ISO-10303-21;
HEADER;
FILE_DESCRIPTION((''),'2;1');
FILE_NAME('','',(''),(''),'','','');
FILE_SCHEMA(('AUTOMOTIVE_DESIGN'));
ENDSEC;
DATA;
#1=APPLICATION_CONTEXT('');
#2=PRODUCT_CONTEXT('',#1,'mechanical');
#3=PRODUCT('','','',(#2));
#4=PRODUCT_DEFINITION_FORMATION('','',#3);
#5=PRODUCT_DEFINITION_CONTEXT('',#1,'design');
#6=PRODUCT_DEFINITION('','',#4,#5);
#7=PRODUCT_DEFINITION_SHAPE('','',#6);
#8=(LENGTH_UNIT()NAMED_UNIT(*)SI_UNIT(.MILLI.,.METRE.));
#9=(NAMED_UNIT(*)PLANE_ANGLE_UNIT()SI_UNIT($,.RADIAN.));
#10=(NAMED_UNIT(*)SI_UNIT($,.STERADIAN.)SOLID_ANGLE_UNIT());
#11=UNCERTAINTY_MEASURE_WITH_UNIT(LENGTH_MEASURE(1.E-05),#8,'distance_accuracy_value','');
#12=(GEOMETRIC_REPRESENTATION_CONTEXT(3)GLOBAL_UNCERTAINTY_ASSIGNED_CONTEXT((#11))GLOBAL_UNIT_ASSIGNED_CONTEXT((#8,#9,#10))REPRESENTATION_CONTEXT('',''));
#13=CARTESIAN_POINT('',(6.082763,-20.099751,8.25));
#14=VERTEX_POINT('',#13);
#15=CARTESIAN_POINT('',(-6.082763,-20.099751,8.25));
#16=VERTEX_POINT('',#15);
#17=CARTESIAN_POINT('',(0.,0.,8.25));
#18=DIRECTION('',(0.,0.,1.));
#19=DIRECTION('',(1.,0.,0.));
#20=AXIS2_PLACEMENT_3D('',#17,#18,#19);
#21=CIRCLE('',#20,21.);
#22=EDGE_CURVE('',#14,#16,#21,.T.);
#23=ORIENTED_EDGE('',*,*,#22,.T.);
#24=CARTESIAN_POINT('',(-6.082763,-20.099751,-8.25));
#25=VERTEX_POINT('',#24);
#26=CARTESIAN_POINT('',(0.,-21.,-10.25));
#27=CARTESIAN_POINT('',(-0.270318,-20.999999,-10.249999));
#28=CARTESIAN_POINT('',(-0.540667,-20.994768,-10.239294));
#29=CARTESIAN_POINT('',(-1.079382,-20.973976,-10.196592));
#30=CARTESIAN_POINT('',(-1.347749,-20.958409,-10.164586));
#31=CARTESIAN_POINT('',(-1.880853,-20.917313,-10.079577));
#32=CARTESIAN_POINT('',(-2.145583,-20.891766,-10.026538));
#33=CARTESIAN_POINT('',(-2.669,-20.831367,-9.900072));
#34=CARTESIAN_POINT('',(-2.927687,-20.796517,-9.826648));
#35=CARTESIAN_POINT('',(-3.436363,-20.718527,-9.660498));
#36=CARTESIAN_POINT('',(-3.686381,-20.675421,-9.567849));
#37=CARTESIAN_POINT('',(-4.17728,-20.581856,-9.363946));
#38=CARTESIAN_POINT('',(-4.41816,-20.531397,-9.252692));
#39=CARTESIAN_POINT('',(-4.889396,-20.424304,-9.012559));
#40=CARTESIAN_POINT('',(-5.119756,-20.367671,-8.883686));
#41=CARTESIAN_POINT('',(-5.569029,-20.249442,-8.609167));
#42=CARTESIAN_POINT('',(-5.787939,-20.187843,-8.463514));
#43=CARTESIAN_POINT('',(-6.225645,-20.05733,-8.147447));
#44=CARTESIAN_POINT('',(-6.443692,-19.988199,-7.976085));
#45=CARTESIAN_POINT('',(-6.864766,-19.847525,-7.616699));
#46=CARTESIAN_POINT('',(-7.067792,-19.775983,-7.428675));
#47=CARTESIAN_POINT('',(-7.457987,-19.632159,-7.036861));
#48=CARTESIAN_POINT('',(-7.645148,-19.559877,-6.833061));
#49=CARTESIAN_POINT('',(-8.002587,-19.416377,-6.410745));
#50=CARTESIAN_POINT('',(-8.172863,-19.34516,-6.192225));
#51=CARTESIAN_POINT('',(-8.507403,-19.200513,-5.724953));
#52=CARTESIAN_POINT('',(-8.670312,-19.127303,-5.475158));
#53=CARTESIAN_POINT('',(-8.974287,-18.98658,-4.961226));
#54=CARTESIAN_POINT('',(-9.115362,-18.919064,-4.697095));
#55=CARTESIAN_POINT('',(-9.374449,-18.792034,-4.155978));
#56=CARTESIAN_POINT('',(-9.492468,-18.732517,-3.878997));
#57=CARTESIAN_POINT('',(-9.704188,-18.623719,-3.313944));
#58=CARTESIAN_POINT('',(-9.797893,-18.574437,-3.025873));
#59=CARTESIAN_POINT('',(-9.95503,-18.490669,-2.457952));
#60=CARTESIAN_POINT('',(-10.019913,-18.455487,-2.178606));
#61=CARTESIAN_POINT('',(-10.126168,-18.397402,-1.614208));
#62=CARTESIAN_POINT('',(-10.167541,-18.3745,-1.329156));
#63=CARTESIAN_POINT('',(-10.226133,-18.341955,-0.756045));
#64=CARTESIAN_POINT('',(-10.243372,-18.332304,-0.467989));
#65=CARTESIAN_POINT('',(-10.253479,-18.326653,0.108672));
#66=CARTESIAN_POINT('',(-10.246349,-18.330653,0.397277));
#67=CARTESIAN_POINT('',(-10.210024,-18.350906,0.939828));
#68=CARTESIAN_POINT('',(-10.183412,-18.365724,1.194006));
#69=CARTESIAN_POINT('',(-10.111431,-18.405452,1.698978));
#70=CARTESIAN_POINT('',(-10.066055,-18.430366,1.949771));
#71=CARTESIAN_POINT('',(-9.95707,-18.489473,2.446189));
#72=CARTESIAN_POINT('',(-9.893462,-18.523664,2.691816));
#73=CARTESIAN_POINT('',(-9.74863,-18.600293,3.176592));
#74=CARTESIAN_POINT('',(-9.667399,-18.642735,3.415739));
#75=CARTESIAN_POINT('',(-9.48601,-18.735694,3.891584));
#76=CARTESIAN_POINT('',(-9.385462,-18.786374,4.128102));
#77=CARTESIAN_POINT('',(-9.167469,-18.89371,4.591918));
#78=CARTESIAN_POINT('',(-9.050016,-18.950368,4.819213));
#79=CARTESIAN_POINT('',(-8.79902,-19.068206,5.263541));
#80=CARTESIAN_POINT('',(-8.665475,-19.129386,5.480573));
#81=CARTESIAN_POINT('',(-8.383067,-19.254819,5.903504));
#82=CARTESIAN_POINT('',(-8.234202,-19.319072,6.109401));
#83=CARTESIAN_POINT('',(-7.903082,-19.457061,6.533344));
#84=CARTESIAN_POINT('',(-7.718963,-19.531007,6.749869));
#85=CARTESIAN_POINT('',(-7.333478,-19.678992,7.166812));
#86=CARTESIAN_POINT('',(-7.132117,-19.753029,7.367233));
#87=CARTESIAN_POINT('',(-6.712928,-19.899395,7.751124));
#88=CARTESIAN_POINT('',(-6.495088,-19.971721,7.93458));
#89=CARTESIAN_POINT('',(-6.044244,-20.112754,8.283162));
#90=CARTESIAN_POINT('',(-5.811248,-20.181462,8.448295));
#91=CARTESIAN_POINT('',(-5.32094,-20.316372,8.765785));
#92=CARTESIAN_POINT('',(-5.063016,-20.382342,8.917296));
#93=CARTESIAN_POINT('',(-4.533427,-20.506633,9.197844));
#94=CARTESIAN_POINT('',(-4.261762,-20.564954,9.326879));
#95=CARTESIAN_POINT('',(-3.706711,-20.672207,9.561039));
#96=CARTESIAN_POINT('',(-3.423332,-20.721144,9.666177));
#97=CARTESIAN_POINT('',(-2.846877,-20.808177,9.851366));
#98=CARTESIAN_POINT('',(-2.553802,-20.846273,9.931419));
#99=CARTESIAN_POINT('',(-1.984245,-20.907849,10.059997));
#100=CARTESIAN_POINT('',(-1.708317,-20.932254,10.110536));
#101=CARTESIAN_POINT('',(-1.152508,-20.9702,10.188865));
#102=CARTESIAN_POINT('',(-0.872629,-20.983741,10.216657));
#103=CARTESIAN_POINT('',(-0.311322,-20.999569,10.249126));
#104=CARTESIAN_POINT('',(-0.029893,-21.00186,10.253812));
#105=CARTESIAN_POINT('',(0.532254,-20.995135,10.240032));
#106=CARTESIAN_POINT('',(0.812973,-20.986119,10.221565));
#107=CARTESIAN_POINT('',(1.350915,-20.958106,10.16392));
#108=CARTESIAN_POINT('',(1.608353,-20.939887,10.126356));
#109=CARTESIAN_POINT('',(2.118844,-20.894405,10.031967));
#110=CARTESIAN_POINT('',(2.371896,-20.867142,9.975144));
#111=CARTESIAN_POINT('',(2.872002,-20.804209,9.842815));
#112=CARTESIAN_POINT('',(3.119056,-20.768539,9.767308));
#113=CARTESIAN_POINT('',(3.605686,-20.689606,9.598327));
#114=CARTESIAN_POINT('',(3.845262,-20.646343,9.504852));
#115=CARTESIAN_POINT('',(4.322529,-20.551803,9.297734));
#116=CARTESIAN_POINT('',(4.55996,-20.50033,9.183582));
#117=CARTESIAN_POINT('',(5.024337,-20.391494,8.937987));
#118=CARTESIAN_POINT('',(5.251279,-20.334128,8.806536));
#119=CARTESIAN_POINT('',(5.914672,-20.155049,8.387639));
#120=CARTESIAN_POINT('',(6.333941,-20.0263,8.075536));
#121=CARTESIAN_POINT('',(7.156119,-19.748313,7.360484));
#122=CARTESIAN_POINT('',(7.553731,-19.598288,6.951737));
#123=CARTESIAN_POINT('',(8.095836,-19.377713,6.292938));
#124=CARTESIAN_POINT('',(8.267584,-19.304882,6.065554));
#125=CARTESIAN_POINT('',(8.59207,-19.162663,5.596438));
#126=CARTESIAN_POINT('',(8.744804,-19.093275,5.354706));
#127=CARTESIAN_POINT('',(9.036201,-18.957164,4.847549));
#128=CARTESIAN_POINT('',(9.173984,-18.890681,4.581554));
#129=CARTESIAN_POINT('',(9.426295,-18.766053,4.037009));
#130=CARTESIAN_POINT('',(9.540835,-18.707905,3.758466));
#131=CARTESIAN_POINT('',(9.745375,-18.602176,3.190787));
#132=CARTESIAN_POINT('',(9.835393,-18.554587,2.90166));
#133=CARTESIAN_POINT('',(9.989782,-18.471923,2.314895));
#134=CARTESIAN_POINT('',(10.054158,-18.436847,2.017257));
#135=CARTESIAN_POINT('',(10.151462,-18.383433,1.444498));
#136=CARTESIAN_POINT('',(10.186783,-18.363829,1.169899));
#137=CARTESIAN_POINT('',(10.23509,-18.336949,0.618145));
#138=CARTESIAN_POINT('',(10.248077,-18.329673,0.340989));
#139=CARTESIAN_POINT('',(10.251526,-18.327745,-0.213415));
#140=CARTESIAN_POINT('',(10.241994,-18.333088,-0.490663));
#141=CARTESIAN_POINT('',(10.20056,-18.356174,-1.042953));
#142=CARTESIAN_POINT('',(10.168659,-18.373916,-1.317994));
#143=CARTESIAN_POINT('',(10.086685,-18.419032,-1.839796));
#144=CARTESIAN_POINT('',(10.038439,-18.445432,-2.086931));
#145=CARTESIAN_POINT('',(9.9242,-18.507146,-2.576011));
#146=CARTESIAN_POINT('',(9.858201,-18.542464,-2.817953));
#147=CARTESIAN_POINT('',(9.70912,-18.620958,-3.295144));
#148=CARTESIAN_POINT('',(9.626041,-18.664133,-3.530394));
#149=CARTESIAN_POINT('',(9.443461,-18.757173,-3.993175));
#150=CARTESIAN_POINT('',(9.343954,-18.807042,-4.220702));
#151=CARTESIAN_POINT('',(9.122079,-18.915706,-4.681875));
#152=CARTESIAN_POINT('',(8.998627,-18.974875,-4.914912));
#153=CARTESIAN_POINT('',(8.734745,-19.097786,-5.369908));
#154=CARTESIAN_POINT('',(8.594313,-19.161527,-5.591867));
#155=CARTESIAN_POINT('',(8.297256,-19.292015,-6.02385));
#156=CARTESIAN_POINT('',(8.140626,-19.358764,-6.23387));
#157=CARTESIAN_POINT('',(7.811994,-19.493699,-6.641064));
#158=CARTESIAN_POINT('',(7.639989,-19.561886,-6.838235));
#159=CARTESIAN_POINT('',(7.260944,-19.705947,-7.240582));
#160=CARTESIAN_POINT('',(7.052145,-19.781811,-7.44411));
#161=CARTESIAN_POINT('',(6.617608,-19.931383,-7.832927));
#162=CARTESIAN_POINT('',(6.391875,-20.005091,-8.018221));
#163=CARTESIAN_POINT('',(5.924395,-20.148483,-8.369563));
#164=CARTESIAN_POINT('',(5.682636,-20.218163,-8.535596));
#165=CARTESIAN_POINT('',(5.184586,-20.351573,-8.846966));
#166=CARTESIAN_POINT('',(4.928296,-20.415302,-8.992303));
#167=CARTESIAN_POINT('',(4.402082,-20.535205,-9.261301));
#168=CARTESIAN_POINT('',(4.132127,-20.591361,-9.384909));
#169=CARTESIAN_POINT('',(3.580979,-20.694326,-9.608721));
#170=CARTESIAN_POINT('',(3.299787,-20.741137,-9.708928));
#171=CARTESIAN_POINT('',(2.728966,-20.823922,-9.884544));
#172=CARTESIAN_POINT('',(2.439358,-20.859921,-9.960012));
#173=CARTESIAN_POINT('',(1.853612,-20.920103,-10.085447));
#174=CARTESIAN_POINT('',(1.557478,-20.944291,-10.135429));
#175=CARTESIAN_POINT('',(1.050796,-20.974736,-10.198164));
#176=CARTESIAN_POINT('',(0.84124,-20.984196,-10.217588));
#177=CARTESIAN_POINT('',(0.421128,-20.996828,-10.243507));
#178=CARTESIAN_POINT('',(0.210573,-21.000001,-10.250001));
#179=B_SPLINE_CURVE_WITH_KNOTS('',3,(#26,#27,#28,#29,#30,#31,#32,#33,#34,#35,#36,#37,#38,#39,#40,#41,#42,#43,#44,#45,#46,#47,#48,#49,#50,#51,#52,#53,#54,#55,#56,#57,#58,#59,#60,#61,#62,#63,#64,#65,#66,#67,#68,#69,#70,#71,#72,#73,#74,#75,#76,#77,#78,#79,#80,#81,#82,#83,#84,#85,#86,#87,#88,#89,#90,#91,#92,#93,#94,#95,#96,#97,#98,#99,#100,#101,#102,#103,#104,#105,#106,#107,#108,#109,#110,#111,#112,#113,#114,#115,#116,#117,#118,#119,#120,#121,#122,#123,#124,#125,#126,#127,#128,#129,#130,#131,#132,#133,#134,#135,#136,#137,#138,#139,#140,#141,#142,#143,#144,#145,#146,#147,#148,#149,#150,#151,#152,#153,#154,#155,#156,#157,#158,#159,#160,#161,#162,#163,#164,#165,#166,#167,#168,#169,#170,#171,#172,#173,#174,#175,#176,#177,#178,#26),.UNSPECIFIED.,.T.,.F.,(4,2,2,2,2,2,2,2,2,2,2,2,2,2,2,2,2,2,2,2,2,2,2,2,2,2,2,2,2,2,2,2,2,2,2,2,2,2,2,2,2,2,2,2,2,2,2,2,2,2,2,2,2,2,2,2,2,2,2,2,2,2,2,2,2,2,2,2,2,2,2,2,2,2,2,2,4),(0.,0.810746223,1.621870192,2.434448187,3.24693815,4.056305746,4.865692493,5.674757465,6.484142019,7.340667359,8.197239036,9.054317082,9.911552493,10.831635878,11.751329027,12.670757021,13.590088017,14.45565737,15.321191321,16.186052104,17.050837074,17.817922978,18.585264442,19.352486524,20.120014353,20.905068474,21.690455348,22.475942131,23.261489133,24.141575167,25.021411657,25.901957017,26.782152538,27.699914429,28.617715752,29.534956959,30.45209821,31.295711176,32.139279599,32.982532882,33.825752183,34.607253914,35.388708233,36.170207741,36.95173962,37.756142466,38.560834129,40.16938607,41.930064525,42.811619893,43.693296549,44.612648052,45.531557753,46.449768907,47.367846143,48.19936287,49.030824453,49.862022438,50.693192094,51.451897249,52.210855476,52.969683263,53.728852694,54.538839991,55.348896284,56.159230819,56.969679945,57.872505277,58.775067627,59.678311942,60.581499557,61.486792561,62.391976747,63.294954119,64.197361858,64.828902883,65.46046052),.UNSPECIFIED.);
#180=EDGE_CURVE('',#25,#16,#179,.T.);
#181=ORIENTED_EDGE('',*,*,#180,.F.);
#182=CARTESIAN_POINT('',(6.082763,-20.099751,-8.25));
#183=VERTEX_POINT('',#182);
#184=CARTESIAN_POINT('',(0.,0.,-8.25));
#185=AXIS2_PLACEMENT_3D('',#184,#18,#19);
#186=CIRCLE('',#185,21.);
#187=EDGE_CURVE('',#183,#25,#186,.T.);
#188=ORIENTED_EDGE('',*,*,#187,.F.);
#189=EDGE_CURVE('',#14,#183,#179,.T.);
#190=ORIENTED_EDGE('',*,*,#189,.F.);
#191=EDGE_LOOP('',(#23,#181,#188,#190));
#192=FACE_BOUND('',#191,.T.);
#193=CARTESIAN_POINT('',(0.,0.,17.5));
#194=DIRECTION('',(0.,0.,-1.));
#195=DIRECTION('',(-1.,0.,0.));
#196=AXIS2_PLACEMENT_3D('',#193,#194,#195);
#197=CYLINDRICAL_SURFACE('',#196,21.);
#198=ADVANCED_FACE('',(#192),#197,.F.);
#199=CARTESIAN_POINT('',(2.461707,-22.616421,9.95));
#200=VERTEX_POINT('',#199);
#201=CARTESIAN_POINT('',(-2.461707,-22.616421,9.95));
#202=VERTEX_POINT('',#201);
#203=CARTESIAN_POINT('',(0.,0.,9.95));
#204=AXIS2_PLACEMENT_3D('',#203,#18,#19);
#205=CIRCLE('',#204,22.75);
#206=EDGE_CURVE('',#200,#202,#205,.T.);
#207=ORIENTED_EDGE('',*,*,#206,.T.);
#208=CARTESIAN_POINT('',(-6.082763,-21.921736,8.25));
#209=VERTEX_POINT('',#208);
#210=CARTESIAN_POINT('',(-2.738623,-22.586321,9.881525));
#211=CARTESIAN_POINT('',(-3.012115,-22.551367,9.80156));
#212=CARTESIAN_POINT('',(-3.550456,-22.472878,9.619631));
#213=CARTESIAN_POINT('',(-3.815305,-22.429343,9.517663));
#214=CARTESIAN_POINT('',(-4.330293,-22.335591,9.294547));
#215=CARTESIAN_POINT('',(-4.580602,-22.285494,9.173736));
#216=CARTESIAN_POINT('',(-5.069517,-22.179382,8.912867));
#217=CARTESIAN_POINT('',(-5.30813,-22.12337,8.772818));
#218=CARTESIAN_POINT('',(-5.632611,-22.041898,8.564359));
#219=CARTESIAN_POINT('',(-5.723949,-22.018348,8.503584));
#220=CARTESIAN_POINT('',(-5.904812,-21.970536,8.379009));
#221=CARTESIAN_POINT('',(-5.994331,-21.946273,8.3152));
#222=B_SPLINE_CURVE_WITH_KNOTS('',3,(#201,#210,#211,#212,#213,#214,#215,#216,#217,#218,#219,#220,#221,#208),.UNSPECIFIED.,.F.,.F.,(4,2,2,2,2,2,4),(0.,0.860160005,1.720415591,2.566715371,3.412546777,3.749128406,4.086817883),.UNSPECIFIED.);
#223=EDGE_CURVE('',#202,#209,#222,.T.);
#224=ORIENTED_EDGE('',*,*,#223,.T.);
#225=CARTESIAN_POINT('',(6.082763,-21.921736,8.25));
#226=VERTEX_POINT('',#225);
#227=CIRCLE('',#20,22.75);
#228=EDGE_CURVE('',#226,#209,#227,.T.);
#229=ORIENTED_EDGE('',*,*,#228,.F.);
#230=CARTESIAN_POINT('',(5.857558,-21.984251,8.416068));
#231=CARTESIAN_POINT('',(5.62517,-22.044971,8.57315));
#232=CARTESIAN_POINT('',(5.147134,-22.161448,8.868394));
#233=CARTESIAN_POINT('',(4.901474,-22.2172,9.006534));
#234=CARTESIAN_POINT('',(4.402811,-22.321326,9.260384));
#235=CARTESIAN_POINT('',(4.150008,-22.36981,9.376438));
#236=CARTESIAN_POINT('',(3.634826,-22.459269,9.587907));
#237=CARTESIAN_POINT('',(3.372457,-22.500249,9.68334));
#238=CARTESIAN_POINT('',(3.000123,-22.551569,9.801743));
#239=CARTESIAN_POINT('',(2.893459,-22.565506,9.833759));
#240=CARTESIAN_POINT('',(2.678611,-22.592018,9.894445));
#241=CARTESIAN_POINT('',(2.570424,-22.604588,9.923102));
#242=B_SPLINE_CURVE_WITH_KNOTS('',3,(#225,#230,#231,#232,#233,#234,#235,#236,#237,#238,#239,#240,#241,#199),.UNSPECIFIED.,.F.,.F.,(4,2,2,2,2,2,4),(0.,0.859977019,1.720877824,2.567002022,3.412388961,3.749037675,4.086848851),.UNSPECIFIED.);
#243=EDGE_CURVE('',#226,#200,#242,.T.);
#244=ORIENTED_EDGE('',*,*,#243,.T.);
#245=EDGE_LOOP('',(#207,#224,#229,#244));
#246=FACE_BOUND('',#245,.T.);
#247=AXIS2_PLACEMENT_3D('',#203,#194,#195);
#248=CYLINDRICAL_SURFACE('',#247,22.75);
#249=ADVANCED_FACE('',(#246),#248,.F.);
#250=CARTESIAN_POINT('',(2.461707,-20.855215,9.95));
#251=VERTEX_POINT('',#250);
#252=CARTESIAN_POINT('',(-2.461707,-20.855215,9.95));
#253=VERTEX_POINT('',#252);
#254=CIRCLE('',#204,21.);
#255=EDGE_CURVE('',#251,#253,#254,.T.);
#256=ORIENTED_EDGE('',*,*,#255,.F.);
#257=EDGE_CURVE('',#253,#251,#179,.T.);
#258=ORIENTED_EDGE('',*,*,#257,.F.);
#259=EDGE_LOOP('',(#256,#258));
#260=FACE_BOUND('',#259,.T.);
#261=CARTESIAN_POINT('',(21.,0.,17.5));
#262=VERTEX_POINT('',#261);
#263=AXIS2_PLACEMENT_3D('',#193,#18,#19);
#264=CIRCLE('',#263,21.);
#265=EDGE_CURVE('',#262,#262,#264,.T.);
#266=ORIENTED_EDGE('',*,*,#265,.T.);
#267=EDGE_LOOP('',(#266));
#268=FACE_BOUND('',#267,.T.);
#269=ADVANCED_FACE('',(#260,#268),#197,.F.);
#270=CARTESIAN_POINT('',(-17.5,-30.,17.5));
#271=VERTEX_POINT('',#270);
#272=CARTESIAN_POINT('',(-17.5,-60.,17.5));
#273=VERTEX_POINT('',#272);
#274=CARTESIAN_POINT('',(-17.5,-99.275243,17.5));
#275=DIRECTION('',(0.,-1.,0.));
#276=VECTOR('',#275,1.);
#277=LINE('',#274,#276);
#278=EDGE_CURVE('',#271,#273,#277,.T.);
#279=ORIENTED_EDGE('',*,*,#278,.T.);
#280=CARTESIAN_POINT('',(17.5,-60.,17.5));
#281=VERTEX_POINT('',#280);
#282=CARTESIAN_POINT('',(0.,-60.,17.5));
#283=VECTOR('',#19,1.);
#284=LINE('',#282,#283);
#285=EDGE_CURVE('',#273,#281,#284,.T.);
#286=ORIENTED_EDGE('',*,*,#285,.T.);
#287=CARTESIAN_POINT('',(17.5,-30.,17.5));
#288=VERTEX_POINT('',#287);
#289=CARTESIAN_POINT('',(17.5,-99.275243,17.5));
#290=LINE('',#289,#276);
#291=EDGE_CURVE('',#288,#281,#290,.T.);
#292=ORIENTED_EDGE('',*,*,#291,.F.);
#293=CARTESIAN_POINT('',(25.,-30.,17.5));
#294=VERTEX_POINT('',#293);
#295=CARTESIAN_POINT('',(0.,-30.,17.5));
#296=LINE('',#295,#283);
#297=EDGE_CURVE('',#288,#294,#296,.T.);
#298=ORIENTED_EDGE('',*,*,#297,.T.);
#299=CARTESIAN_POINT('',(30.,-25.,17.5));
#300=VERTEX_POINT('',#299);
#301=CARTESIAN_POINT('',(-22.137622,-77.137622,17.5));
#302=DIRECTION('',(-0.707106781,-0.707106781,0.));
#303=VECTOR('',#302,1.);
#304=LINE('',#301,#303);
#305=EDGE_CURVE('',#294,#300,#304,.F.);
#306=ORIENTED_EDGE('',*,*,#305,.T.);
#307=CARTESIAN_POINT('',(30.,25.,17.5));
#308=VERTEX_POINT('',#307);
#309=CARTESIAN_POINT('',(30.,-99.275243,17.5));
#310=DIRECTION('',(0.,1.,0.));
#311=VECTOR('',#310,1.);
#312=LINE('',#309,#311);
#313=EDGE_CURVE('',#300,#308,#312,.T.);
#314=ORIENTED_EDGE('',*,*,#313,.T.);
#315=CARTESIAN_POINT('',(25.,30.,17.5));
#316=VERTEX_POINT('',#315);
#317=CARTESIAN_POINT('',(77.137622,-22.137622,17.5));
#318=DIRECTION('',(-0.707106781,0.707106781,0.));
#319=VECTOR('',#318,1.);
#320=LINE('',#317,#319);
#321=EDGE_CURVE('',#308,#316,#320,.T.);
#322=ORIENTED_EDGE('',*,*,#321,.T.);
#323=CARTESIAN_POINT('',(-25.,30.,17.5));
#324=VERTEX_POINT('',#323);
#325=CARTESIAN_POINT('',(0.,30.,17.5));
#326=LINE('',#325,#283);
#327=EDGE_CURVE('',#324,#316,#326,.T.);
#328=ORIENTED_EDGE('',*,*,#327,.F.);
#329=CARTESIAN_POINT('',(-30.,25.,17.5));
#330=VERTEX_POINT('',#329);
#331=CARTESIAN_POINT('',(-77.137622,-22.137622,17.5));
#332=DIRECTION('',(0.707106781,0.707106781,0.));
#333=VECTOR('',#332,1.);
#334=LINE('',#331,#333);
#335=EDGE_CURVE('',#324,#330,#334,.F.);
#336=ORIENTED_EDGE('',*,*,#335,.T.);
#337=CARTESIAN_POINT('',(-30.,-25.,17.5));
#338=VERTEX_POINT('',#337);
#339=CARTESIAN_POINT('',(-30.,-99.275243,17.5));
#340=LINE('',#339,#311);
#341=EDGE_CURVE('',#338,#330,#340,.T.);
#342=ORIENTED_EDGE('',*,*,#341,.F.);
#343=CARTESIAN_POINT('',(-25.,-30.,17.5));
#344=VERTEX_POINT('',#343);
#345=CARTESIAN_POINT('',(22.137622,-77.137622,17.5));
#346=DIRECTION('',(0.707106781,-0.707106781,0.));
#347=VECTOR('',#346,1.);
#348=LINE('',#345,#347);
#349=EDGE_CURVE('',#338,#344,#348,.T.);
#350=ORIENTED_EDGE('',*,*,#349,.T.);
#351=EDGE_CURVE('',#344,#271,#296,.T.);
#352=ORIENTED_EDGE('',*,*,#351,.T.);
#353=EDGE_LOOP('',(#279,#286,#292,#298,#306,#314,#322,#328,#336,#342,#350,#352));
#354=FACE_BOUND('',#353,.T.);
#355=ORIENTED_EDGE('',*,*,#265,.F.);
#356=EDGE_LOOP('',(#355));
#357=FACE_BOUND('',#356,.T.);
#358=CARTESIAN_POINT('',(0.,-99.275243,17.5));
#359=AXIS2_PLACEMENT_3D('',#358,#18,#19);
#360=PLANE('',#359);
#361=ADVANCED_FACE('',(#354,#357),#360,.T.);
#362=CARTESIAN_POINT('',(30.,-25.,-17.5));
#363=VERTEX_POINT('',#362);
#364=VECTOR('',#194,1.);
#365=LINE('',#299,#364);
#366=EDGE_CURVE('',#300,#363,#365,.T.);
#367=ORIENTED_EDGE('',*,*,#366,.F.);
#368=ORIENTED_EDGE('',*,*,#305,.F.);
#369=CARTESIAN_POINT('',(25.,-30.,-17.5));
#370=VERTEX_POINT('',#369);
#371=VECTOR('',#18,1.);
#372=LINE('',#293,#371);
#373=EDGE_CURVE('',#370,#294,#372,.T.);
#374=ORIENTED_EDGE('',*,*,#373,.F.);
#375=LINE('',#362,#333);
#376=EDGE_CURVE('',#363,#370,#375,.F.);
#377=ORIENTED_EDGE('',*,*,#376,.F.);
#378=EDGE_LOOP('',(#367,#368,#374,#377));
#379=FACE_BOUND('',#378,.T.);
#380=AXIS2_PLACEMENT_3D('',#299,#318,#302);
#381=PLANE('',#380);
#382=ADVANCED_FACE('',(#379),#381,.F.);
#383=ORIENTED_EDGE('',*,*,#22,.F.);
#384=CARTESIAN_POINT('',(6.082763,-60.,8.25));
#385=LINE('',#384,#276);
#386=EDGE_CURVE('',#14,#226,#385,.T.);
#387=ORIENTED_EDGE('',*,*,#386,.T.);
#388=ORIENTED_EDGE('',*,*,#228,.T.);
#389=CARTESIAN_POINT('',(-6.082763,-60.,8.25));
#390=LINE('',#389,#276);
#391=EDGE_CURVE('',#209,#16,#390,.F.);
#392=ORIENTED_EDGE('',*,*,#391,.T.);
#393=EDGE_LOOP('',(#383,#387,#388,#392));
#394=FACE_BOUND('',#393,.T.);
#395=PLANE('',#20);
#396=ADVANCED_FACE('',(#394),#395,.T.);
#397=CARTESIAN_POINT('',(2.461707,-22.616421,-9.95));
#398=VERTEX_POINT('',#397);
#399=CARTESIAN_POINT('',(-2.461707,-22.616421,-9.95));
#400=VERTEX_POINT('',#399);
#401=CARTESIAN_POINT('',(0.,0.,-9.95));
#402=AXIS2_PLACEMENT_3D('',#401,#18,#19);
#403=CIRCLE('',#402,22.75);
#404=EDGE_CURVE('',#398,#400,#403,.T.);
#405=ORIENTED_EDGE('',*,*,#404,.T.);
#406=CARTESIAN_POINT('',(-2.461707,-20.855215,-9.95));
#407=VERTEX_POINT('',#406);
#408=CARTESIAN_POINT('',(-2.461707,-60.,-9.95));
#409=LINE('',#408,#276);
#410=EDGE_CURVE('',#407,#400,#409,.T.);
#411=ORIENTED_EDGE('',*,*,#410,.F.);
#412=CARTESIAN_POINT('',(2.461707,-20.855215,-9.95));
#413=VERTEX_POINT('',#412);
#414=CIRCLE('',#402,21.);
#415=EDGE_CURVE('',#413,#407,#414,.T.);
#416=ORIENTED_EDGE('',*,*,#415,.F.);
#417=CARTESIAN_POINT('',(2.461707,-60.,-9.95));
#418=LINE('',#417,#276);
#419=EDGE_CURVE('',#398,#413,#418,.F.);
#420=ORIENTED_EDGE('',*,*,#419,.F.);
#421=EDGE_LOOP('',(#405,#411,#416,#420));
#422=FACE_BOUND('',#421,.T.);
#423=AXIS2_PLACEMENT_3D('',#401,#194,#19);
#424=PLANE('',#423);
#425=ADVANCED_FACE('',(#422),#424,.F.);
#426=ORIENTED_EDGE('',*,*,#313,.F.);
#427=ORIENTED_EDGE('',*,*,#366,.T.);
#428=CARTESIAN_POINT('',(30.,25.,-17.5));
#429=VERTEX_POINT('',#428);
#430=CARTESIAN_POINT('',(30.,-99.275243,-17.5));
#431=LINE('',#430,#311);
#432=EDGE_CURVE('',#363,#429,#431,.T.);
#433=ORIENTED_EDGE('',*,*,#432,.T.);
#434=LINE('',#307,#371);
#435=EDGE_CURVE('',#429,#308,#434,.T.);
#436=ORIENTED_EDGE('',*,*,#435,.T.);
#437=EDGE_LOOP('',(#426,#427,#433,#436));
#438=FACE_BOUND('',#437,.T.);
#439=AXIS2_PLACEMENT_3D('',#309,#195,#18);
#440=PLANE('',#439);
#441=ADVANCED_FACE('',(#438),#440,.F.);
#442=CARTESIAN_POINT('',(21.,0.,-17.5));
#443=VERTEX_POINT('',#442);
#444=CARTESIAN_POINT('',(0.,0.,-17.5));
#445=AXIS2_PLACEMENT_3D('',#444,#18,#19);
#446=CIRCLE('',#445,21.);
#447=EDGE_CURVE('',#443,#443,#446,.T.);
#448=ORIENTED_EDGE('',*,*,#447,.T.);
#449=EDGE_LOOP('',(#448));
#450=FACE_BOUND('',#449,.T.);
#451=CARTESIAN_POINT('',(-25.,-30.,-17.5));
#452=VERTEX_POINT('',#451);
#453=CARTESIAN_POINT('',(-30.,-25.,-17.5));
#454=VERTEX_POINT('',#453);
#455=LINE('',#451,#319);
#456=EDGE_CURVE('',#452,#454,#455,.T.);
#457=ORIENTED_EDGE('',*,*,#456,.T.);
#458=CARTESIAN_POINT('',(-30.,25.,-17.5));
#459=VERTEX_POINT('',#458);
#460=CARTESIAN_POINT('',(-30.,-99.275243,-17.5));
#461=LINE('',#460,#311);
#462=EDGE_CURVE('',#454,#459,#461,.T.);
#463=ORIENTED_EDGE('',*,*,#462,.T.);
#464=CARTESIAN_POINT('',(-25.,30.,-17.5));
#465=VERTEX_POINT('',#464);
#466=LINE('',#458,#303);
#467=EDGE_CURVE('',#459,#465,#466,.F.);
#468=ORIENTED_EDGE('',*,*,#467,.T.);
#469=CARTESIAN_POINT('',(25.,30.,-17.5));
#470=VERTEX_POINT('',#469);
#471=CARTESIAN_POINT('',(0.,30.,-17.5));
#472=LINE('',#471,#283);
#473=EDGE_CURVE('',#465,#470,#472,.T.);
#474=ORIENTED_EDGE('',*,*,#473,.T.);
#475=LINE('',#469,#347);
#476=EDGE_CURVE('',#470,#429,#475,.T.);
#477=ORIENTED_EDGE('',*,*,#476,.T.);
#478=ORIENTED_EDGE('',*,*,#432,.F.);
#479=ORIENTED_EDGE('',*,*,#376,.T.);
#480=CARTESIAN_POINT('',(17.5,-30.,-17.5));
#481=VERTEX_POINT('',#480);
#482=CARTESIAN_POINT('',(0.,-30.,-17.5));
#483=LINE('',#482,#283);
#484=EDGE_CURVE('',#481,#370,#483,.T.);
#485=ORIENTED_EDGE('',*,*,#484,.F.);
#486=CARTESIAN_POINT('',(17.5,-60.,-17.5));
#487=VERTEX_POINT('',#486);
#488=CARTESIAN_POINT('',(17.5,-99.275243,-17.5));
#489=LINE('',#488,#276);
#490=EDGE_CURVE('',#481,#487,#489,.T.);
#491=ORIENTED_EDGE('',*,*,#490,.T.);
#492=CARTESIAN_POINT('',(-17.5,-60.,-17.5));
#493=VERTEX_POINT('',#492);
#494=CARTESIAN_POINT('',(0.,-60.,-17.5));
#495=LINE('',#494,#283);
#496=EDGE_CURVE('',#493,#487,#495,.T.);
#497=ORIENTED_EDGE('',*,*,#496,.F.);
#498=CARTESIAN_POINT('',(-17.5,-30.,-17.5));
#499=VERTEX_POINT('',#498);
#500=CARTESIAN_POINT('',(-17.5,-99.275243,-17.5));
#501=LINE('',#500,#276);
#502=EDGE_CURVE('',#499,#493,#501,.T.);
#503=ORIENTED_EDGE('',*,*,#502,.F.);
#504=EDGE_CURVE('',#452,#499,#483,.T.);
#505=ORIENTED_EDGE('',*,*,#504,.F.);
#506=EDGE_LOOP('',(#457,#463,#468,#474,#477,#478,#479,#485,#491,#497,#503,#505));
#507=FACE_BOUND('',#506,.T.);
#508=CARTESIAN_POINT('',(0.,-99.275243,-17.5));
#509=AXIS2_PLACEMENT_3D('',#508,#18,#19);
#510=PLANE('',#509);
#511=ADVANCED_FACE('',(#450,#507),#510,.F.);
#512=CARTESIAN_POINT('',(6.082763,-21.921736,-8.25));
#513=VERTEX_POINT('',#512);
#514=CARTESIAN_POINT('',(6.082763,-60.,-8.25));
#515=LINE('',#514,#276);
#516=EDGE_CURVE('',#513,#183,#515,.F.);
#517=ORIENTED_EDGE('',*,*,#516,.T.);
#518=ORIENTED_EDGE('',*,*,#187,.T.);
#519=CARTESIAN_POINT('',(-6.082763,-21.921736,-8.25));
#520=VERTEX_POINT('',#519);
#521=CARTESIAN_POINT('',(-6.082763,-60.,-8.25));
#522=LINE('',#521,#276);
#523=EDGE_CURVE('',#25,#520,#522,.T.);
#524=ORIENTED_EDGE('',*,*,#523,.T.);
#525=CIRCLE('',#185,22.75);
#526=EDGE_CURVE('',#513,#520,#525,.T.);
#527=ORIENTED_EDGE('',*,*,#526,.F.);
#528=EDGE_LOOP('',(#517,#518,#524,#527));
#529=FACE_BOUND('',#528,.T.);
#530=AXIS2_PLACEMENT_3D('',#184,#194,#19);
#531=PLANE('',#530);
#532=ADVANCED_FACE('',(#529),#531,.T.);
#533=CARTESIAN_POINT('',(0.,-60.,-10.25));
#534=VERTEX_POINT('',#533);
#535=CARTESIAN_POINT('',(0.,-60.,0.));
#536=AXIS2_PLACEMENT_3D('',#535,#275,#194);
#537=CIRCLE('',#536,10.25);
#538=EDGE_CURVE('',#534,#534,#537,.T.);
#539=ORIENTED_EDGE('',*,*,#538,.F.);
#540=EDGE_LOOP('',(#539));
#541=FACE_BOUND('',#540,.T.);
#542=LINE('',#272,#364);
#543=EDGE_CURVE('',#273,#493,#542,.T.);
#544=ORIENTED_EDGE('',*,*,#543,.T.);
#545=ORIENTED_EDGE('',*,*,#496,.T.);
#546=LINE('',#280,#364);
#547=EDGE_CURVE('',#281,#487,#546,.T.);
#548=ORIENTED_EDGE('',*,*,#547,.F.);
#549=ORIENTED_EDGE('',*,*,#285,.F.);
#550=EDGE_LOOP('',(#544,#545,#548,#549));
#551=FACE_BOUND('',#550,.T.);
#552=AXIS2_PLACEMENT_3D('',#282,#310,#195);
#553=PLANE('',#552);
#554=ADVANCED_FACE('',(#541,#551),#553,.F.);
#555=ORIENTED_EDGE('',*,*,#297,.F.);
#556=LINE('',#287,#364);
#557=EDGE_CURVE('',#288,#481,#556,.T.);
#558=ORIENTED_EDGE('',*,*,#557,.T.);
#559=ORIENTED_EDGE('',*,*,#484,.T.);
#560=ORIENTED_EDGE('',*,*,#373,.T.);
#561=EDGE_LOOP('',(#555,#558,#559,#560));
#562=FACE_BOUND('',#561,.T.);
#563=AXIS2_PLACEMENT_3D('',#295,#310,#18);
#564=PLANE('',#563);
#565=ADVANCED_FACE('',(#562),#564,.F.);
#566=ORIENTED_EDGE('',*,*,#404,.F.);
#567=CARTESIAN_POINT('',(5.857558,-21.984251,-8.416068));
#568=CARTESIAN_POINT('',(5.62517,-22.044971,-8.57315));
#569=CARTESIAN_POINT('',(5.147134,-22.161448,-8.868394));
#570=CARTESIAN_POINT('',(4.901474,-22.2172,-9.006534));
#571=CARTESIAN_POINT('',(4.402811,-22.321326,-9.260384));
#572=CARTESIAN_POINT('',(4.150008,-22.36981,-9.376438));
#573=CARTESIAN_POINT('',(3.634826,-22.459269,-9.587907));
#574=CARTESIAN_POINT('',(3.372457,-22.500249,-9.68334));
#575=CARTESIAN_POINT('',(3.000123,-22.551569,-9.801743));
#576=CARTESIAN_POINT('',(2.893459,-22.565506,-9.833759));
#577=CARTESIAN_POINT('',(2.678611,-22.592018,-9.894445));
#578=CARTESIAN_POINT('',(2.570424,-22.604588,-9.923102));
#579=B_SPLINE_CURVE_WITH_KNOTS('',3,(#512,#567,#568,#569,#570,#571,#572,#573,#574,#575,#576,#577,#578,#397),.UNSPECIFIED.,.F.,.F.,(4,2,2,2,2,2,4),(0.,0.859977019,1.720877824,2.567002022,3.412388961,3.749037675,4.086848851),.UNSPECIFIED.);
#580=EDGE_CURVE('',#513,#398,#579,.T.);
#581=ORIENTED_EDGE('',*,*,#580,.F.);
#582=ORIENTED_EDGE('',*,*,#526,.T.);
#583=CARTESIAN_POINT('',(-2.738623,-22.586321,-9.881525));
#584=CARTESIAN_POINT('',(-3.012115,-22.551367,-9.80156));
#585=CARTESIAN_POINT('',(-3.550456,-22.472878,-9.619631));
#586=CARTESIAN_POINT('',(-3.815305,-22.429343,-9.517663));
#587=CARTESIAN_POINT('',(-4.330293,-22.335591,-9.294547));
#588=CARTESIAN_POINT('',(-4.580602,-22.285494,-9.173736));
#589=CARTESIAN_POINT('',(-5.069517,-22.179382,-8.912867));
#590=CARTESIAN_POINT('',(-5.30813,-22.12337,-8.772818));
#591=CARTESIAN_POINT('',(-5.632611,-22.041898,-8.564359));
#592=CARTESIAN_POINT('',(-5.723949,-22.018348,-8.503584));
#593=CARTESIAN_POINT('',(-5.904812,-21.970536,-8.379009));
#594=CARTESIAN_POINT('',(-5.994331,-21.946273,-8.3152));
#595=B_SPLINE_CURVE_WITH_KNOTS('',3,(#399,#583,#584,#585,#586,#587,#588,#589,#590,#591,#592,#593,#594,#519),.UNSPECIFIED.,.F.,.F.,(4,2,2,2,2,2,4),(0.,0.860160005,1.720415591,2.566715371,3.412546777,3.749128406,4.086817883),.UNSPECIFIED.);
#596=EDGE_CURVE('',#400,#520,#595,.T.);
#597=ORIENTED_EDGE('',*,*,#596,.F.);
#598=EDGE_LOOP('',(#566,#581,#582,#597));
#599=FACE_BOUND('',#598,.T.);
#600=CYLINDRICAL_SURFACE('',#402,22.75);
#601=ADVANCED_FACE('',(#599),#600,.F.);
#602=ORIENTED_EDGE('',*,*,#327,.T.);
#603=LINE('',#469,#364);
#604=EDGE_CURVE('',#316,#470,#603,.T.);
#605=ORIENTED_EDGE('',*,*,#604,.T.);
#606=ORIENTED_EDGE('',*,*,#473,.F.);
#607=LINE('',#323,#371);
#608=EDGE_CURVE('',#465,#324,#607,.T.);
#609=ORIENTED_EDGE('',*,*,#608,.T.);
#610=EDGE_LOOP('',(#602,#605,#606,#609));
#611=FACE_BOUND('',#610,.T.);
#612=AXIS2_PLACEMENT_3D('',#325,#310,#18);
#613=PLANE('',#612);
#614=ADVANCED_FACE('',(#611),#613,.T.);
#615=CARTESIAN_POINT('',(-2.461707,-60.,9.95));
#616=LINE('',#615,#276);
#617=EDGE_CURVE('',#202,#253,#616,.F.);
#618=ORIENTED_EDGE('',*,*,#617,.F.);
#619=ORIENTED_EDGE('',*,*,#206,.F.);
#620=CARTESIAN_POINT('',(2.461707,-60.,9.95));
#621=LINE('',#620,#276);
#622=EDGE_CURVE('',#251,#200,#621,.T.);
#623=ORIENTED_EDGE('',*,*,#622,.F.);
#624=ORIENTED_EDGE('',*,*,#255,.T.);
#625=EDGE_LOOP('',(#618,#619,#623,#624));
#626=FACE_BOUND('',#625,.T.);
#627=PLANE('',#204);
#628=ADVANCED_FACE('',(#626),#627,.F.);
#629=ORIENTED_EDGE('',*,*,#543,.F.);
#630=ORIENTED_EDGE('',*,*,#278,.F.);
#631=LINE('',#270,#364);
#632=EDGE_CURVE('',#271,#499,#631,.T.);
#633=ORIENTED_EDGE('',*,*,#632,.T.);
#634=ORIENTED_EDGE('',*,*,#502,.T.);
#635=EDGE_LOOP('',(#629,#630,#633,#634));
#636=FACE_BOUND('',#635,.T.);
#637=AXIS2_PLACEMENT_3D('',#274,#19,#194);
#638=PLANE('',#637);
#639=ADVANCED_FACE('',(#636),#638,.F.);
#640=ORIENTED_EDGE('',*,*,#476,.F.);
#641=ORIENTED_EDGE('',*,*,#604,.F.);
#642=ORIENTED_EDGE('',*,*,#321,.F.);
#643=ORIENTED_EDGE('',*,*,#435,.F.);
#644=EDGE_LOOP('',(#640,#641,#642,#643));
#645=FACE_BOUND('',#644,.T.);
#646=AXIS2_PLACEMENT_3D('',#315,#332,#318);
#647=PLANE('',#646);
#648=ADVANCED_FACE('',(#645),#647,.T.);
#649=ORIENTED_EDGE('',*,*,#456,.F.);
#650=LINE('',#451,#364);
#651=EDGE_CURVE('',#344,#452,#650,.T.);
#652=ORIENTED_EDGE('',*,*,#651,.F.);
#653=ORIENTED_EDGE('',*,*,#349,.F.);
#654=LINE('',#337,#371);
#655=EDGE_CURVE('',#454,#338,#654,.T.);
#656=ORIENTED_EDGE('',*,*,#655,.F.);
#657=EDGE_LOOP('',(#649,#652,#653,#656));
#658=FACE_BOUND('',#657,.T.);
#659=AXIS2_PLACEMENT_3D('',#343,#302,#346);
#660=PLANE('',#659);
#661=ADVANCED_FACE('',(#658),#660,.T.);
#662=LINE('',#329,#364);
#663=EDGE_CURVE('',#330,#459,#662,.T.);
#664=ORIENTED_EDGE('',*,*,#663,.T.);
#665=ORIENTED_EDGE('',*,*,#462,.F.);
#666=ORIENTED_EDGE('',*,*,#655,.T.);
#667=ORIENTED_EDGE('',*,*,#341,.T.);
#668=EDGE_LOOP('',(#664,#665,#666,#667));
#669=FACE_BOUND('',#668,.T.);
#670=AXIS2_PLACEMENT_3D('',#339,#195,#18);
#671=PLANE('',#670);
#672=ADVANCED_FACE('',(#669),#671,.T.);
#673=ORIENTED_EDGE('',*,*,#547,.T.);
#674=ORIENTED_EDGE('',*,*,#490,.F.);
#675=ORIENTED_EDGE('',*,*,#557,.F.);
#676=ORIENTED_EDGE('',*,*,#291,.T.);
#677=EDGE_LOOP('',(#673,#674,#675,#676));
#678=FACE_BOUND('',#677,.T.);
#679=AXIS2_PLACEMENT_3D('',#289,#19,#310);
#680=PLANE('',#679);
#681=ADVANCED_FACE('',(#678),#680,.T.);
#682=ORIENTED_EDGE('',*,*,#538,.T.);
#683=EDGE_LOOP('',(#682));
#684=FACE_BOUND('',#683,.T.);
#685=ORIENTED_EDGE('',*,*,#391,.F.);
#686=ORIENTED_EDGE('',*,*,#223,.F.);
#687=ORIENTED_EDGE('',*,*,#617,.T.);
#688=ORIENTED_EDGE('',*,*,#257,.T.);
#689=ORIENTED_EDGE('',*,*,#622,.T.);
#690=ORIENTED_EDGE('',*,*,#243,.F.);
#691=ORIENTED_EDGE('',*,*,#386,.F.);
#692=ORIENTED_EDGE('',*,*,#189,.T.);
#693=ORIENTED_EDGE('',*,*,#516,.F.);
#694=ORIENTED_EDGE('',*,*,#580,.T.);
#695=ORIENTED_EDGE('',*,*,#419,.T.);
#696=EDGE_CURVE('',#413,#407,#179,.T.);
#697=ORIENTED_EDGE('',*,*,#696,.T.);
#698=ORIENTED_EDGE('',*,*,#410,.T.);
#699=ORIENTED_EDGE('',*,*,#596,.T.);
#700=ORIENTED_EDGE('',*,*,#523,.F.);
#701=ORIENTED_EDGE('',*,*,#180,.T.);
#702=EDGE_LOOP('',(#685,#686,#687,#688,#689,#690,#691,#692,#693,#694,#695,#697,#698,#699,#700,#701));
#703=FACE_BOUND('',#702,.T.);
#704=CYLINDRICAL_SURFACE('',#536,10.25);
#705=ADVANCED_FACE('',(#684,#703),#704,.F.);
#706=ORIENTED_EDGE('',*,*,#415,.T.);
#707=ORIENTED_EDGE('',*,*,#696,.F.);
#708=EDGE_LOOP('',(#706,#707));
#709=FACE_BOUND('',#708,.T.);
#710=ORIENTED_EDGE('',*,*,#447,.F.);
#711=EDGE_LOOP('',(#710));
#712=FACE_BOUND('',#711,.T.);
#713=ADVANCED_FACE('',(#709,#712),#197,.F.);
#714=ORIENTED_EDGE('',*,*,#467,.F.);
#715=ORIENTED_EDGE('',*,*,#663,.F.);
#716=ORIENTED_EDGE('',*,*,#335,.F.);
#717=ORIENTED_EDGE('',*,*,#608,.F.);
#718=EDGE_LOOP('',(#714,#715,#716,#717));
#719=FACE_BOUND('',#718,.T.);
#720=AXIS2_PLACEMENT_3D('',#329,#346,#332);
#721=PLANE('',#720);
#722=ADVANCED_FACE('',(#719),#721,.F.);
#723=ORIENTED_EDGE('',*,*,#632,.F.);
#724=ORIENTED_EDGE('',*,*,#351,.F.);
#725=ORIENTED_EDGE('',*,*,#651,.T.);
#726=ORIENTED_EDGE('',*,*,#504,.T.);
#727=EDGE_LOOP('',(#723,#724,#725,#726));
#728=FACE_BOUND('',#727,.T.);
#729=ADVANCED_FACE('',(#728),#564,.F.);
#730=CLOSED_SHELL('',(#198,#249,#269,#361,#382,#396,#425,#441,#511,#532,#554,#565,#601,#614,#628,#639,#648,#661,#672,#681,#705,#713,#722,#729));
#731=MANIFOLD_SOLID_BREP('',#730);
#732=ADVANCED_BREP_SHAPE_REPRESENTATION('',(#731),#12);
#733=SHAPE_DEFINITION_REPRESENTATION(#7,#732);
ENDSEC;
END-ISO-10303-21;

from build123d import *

# Parameters (mm, degrees)
SKETCH_1_R          = 30
SKETCH_1_R_2        = 21
EXTRUDE_1_DEPTH     = 17.5
M22X1_5_1_D         = 20.5
M22X1_5_1_DEPTH     = 48.5
M22X1_5_1_TIP       = 6.158821345
CUT_EXTRUDE_START   = 8.25
SKETCH_5_R          = 22.75
SKETCH_5_R_2        = 21
CUT_EXTRUDE_1_DEPTH = 1.7
CHAMFER_1_SIZE      = 5


with BuildPart() as part:
    # 草图1 → 凸台-拉伸1 (new, symmetric)
    # profile 1 of 8: a face of its own
    with BuildSketch(Plane.XY):
        with BuildLine():
            Line((30, 30), (2.9e-08, 30))
            ThreePointArc((2.9e-08, 30), (21.213203446, 21.213203425), (30, 0))
            Line((30, 0), (30, 30))
        make_face()
    # profile 2 of 8: a face of its own
    with BuildSketch(Plane.XY):
        with BuildLine():
            Line((-30, 30), (-30, 0))
            ThreePointArc((-30, 0), (-21.213203425, 21.213203446), (2.9e-08, 30))
            Line((2.9e-08, 30), (-30, 30))
        make_face()
    # profile 3 of 8: a face of its own
    with BuildSketch(Plane.XY):
        Circle(SKETCH_1_R)
        Circle(SKETCH_1_R_2, mode=Mode.SUBTRACT)
    # profile 4 of 8: a face of its own
    with BuildSketch(Plane.XY):
        with BuildLine():
            Line((17.5, -24.366985862), (17.5, -30))
            Line((17.5, -30), (30, -30))
            Line((30, -30), (30, 0))
            ThreePointArc((30, 0), (26.69269563, -13.693063938), (17.5, -24.366985862))
        make_face()
    # profile 5 of 8: a face of its own
    with BuildSketch(Plane.XY):
        with BuildLine():
            ThreePointArc((17.5, -24.366985862), (9.192127723, -28.557044454), (0, -30))
            Line((0, -30), (17.5, -30))
            Line((17.5, -30), (17.5, -24.366985862))
        make_face()
    # profile 6 of 8: a face of its own
    with BuildSketch(Plane.XY):
        with BuildLine():
            ThreePointArc((0, -30), (-9.192127723, -28.557044454), (-17.5, -24.366985862))
            Line((-17.5, -24.366985862), (-17.5, -30))
            Line((-17.5, -30), (0, -30))
        make_face()
    # profile 7 of 8: a face of its own
    with BuildSketch(Plane.XY):
        with BuildLine():
            Line((-17.5, -30), (-17.5, -24.366985862))
            ThreePointArc((-17.5, -24.366985862), (-26.69269563, -13.693063938), (-30, 0))
            Line((-30, 0), (-30, -30))
            Line((-30, -30), (-17.5, -30))
        make_face()
    # profile 8 of 8: a face of its own
    with BuildSketch(Plane.XY):
        Polygon((0, -30), (-17.5, -30), (-17.5, -60), (17.5, -60), (17.5, -30), align=None)
    extrude(amount=EXTRUDE_1_DEPTH, both=True)

    # M22x1.5 螺纹孔1
    with Locations(Plane.XZ.offset(60)):
        with Locations((0, 0)):
            Hole(M22X1_5_1_D / 2, depth=M22X1_5_1_DEPTH)
            with Locations((0, 0, -(M22X1_5_1_DEPTH + M22X1_5_1_TIP / 2))):  # 118° drill point
                Cone(0, M22X1_5_1_D / 2, M22X1_5_1_TIP, mode=Mode.SUBTRACT)

    # 草图5 → 切除-拉伸1 (cut)
    with BuildSketch(Plane.XY.offset(CUT_EXTRUDE_START)):
        Circle(SKETCH_5_R)
        with Locations(Location((0, 0, 0), (0, 0, 253.16267609))):
            Circle(SKETCH_5_R_2, mode=Mode.SUBTRACT)
    cut_extrude_1 = extrude(amount=CUT_EXTRUDE_1_DEPTH, mode=Mode.SUBTRACT)

    # 镜向1: 切除-拉伸1 across plane
    add(cut_extrude_1.mirror(Plane.XY), mode=Mode.SUBTRACT)

    # 倒角1
    chamfer_1_edges = [part.edges().sort_by_distance(p)[0] for p in [
        (-30, -30, 0),
        (-30, 30, 0),
        (30, 30, 0),
        (30, -30, 0),
    ]]
    chamfer(chamfer_1_edges, length=CHAMFER_1_SIZE)


solid = part.part
